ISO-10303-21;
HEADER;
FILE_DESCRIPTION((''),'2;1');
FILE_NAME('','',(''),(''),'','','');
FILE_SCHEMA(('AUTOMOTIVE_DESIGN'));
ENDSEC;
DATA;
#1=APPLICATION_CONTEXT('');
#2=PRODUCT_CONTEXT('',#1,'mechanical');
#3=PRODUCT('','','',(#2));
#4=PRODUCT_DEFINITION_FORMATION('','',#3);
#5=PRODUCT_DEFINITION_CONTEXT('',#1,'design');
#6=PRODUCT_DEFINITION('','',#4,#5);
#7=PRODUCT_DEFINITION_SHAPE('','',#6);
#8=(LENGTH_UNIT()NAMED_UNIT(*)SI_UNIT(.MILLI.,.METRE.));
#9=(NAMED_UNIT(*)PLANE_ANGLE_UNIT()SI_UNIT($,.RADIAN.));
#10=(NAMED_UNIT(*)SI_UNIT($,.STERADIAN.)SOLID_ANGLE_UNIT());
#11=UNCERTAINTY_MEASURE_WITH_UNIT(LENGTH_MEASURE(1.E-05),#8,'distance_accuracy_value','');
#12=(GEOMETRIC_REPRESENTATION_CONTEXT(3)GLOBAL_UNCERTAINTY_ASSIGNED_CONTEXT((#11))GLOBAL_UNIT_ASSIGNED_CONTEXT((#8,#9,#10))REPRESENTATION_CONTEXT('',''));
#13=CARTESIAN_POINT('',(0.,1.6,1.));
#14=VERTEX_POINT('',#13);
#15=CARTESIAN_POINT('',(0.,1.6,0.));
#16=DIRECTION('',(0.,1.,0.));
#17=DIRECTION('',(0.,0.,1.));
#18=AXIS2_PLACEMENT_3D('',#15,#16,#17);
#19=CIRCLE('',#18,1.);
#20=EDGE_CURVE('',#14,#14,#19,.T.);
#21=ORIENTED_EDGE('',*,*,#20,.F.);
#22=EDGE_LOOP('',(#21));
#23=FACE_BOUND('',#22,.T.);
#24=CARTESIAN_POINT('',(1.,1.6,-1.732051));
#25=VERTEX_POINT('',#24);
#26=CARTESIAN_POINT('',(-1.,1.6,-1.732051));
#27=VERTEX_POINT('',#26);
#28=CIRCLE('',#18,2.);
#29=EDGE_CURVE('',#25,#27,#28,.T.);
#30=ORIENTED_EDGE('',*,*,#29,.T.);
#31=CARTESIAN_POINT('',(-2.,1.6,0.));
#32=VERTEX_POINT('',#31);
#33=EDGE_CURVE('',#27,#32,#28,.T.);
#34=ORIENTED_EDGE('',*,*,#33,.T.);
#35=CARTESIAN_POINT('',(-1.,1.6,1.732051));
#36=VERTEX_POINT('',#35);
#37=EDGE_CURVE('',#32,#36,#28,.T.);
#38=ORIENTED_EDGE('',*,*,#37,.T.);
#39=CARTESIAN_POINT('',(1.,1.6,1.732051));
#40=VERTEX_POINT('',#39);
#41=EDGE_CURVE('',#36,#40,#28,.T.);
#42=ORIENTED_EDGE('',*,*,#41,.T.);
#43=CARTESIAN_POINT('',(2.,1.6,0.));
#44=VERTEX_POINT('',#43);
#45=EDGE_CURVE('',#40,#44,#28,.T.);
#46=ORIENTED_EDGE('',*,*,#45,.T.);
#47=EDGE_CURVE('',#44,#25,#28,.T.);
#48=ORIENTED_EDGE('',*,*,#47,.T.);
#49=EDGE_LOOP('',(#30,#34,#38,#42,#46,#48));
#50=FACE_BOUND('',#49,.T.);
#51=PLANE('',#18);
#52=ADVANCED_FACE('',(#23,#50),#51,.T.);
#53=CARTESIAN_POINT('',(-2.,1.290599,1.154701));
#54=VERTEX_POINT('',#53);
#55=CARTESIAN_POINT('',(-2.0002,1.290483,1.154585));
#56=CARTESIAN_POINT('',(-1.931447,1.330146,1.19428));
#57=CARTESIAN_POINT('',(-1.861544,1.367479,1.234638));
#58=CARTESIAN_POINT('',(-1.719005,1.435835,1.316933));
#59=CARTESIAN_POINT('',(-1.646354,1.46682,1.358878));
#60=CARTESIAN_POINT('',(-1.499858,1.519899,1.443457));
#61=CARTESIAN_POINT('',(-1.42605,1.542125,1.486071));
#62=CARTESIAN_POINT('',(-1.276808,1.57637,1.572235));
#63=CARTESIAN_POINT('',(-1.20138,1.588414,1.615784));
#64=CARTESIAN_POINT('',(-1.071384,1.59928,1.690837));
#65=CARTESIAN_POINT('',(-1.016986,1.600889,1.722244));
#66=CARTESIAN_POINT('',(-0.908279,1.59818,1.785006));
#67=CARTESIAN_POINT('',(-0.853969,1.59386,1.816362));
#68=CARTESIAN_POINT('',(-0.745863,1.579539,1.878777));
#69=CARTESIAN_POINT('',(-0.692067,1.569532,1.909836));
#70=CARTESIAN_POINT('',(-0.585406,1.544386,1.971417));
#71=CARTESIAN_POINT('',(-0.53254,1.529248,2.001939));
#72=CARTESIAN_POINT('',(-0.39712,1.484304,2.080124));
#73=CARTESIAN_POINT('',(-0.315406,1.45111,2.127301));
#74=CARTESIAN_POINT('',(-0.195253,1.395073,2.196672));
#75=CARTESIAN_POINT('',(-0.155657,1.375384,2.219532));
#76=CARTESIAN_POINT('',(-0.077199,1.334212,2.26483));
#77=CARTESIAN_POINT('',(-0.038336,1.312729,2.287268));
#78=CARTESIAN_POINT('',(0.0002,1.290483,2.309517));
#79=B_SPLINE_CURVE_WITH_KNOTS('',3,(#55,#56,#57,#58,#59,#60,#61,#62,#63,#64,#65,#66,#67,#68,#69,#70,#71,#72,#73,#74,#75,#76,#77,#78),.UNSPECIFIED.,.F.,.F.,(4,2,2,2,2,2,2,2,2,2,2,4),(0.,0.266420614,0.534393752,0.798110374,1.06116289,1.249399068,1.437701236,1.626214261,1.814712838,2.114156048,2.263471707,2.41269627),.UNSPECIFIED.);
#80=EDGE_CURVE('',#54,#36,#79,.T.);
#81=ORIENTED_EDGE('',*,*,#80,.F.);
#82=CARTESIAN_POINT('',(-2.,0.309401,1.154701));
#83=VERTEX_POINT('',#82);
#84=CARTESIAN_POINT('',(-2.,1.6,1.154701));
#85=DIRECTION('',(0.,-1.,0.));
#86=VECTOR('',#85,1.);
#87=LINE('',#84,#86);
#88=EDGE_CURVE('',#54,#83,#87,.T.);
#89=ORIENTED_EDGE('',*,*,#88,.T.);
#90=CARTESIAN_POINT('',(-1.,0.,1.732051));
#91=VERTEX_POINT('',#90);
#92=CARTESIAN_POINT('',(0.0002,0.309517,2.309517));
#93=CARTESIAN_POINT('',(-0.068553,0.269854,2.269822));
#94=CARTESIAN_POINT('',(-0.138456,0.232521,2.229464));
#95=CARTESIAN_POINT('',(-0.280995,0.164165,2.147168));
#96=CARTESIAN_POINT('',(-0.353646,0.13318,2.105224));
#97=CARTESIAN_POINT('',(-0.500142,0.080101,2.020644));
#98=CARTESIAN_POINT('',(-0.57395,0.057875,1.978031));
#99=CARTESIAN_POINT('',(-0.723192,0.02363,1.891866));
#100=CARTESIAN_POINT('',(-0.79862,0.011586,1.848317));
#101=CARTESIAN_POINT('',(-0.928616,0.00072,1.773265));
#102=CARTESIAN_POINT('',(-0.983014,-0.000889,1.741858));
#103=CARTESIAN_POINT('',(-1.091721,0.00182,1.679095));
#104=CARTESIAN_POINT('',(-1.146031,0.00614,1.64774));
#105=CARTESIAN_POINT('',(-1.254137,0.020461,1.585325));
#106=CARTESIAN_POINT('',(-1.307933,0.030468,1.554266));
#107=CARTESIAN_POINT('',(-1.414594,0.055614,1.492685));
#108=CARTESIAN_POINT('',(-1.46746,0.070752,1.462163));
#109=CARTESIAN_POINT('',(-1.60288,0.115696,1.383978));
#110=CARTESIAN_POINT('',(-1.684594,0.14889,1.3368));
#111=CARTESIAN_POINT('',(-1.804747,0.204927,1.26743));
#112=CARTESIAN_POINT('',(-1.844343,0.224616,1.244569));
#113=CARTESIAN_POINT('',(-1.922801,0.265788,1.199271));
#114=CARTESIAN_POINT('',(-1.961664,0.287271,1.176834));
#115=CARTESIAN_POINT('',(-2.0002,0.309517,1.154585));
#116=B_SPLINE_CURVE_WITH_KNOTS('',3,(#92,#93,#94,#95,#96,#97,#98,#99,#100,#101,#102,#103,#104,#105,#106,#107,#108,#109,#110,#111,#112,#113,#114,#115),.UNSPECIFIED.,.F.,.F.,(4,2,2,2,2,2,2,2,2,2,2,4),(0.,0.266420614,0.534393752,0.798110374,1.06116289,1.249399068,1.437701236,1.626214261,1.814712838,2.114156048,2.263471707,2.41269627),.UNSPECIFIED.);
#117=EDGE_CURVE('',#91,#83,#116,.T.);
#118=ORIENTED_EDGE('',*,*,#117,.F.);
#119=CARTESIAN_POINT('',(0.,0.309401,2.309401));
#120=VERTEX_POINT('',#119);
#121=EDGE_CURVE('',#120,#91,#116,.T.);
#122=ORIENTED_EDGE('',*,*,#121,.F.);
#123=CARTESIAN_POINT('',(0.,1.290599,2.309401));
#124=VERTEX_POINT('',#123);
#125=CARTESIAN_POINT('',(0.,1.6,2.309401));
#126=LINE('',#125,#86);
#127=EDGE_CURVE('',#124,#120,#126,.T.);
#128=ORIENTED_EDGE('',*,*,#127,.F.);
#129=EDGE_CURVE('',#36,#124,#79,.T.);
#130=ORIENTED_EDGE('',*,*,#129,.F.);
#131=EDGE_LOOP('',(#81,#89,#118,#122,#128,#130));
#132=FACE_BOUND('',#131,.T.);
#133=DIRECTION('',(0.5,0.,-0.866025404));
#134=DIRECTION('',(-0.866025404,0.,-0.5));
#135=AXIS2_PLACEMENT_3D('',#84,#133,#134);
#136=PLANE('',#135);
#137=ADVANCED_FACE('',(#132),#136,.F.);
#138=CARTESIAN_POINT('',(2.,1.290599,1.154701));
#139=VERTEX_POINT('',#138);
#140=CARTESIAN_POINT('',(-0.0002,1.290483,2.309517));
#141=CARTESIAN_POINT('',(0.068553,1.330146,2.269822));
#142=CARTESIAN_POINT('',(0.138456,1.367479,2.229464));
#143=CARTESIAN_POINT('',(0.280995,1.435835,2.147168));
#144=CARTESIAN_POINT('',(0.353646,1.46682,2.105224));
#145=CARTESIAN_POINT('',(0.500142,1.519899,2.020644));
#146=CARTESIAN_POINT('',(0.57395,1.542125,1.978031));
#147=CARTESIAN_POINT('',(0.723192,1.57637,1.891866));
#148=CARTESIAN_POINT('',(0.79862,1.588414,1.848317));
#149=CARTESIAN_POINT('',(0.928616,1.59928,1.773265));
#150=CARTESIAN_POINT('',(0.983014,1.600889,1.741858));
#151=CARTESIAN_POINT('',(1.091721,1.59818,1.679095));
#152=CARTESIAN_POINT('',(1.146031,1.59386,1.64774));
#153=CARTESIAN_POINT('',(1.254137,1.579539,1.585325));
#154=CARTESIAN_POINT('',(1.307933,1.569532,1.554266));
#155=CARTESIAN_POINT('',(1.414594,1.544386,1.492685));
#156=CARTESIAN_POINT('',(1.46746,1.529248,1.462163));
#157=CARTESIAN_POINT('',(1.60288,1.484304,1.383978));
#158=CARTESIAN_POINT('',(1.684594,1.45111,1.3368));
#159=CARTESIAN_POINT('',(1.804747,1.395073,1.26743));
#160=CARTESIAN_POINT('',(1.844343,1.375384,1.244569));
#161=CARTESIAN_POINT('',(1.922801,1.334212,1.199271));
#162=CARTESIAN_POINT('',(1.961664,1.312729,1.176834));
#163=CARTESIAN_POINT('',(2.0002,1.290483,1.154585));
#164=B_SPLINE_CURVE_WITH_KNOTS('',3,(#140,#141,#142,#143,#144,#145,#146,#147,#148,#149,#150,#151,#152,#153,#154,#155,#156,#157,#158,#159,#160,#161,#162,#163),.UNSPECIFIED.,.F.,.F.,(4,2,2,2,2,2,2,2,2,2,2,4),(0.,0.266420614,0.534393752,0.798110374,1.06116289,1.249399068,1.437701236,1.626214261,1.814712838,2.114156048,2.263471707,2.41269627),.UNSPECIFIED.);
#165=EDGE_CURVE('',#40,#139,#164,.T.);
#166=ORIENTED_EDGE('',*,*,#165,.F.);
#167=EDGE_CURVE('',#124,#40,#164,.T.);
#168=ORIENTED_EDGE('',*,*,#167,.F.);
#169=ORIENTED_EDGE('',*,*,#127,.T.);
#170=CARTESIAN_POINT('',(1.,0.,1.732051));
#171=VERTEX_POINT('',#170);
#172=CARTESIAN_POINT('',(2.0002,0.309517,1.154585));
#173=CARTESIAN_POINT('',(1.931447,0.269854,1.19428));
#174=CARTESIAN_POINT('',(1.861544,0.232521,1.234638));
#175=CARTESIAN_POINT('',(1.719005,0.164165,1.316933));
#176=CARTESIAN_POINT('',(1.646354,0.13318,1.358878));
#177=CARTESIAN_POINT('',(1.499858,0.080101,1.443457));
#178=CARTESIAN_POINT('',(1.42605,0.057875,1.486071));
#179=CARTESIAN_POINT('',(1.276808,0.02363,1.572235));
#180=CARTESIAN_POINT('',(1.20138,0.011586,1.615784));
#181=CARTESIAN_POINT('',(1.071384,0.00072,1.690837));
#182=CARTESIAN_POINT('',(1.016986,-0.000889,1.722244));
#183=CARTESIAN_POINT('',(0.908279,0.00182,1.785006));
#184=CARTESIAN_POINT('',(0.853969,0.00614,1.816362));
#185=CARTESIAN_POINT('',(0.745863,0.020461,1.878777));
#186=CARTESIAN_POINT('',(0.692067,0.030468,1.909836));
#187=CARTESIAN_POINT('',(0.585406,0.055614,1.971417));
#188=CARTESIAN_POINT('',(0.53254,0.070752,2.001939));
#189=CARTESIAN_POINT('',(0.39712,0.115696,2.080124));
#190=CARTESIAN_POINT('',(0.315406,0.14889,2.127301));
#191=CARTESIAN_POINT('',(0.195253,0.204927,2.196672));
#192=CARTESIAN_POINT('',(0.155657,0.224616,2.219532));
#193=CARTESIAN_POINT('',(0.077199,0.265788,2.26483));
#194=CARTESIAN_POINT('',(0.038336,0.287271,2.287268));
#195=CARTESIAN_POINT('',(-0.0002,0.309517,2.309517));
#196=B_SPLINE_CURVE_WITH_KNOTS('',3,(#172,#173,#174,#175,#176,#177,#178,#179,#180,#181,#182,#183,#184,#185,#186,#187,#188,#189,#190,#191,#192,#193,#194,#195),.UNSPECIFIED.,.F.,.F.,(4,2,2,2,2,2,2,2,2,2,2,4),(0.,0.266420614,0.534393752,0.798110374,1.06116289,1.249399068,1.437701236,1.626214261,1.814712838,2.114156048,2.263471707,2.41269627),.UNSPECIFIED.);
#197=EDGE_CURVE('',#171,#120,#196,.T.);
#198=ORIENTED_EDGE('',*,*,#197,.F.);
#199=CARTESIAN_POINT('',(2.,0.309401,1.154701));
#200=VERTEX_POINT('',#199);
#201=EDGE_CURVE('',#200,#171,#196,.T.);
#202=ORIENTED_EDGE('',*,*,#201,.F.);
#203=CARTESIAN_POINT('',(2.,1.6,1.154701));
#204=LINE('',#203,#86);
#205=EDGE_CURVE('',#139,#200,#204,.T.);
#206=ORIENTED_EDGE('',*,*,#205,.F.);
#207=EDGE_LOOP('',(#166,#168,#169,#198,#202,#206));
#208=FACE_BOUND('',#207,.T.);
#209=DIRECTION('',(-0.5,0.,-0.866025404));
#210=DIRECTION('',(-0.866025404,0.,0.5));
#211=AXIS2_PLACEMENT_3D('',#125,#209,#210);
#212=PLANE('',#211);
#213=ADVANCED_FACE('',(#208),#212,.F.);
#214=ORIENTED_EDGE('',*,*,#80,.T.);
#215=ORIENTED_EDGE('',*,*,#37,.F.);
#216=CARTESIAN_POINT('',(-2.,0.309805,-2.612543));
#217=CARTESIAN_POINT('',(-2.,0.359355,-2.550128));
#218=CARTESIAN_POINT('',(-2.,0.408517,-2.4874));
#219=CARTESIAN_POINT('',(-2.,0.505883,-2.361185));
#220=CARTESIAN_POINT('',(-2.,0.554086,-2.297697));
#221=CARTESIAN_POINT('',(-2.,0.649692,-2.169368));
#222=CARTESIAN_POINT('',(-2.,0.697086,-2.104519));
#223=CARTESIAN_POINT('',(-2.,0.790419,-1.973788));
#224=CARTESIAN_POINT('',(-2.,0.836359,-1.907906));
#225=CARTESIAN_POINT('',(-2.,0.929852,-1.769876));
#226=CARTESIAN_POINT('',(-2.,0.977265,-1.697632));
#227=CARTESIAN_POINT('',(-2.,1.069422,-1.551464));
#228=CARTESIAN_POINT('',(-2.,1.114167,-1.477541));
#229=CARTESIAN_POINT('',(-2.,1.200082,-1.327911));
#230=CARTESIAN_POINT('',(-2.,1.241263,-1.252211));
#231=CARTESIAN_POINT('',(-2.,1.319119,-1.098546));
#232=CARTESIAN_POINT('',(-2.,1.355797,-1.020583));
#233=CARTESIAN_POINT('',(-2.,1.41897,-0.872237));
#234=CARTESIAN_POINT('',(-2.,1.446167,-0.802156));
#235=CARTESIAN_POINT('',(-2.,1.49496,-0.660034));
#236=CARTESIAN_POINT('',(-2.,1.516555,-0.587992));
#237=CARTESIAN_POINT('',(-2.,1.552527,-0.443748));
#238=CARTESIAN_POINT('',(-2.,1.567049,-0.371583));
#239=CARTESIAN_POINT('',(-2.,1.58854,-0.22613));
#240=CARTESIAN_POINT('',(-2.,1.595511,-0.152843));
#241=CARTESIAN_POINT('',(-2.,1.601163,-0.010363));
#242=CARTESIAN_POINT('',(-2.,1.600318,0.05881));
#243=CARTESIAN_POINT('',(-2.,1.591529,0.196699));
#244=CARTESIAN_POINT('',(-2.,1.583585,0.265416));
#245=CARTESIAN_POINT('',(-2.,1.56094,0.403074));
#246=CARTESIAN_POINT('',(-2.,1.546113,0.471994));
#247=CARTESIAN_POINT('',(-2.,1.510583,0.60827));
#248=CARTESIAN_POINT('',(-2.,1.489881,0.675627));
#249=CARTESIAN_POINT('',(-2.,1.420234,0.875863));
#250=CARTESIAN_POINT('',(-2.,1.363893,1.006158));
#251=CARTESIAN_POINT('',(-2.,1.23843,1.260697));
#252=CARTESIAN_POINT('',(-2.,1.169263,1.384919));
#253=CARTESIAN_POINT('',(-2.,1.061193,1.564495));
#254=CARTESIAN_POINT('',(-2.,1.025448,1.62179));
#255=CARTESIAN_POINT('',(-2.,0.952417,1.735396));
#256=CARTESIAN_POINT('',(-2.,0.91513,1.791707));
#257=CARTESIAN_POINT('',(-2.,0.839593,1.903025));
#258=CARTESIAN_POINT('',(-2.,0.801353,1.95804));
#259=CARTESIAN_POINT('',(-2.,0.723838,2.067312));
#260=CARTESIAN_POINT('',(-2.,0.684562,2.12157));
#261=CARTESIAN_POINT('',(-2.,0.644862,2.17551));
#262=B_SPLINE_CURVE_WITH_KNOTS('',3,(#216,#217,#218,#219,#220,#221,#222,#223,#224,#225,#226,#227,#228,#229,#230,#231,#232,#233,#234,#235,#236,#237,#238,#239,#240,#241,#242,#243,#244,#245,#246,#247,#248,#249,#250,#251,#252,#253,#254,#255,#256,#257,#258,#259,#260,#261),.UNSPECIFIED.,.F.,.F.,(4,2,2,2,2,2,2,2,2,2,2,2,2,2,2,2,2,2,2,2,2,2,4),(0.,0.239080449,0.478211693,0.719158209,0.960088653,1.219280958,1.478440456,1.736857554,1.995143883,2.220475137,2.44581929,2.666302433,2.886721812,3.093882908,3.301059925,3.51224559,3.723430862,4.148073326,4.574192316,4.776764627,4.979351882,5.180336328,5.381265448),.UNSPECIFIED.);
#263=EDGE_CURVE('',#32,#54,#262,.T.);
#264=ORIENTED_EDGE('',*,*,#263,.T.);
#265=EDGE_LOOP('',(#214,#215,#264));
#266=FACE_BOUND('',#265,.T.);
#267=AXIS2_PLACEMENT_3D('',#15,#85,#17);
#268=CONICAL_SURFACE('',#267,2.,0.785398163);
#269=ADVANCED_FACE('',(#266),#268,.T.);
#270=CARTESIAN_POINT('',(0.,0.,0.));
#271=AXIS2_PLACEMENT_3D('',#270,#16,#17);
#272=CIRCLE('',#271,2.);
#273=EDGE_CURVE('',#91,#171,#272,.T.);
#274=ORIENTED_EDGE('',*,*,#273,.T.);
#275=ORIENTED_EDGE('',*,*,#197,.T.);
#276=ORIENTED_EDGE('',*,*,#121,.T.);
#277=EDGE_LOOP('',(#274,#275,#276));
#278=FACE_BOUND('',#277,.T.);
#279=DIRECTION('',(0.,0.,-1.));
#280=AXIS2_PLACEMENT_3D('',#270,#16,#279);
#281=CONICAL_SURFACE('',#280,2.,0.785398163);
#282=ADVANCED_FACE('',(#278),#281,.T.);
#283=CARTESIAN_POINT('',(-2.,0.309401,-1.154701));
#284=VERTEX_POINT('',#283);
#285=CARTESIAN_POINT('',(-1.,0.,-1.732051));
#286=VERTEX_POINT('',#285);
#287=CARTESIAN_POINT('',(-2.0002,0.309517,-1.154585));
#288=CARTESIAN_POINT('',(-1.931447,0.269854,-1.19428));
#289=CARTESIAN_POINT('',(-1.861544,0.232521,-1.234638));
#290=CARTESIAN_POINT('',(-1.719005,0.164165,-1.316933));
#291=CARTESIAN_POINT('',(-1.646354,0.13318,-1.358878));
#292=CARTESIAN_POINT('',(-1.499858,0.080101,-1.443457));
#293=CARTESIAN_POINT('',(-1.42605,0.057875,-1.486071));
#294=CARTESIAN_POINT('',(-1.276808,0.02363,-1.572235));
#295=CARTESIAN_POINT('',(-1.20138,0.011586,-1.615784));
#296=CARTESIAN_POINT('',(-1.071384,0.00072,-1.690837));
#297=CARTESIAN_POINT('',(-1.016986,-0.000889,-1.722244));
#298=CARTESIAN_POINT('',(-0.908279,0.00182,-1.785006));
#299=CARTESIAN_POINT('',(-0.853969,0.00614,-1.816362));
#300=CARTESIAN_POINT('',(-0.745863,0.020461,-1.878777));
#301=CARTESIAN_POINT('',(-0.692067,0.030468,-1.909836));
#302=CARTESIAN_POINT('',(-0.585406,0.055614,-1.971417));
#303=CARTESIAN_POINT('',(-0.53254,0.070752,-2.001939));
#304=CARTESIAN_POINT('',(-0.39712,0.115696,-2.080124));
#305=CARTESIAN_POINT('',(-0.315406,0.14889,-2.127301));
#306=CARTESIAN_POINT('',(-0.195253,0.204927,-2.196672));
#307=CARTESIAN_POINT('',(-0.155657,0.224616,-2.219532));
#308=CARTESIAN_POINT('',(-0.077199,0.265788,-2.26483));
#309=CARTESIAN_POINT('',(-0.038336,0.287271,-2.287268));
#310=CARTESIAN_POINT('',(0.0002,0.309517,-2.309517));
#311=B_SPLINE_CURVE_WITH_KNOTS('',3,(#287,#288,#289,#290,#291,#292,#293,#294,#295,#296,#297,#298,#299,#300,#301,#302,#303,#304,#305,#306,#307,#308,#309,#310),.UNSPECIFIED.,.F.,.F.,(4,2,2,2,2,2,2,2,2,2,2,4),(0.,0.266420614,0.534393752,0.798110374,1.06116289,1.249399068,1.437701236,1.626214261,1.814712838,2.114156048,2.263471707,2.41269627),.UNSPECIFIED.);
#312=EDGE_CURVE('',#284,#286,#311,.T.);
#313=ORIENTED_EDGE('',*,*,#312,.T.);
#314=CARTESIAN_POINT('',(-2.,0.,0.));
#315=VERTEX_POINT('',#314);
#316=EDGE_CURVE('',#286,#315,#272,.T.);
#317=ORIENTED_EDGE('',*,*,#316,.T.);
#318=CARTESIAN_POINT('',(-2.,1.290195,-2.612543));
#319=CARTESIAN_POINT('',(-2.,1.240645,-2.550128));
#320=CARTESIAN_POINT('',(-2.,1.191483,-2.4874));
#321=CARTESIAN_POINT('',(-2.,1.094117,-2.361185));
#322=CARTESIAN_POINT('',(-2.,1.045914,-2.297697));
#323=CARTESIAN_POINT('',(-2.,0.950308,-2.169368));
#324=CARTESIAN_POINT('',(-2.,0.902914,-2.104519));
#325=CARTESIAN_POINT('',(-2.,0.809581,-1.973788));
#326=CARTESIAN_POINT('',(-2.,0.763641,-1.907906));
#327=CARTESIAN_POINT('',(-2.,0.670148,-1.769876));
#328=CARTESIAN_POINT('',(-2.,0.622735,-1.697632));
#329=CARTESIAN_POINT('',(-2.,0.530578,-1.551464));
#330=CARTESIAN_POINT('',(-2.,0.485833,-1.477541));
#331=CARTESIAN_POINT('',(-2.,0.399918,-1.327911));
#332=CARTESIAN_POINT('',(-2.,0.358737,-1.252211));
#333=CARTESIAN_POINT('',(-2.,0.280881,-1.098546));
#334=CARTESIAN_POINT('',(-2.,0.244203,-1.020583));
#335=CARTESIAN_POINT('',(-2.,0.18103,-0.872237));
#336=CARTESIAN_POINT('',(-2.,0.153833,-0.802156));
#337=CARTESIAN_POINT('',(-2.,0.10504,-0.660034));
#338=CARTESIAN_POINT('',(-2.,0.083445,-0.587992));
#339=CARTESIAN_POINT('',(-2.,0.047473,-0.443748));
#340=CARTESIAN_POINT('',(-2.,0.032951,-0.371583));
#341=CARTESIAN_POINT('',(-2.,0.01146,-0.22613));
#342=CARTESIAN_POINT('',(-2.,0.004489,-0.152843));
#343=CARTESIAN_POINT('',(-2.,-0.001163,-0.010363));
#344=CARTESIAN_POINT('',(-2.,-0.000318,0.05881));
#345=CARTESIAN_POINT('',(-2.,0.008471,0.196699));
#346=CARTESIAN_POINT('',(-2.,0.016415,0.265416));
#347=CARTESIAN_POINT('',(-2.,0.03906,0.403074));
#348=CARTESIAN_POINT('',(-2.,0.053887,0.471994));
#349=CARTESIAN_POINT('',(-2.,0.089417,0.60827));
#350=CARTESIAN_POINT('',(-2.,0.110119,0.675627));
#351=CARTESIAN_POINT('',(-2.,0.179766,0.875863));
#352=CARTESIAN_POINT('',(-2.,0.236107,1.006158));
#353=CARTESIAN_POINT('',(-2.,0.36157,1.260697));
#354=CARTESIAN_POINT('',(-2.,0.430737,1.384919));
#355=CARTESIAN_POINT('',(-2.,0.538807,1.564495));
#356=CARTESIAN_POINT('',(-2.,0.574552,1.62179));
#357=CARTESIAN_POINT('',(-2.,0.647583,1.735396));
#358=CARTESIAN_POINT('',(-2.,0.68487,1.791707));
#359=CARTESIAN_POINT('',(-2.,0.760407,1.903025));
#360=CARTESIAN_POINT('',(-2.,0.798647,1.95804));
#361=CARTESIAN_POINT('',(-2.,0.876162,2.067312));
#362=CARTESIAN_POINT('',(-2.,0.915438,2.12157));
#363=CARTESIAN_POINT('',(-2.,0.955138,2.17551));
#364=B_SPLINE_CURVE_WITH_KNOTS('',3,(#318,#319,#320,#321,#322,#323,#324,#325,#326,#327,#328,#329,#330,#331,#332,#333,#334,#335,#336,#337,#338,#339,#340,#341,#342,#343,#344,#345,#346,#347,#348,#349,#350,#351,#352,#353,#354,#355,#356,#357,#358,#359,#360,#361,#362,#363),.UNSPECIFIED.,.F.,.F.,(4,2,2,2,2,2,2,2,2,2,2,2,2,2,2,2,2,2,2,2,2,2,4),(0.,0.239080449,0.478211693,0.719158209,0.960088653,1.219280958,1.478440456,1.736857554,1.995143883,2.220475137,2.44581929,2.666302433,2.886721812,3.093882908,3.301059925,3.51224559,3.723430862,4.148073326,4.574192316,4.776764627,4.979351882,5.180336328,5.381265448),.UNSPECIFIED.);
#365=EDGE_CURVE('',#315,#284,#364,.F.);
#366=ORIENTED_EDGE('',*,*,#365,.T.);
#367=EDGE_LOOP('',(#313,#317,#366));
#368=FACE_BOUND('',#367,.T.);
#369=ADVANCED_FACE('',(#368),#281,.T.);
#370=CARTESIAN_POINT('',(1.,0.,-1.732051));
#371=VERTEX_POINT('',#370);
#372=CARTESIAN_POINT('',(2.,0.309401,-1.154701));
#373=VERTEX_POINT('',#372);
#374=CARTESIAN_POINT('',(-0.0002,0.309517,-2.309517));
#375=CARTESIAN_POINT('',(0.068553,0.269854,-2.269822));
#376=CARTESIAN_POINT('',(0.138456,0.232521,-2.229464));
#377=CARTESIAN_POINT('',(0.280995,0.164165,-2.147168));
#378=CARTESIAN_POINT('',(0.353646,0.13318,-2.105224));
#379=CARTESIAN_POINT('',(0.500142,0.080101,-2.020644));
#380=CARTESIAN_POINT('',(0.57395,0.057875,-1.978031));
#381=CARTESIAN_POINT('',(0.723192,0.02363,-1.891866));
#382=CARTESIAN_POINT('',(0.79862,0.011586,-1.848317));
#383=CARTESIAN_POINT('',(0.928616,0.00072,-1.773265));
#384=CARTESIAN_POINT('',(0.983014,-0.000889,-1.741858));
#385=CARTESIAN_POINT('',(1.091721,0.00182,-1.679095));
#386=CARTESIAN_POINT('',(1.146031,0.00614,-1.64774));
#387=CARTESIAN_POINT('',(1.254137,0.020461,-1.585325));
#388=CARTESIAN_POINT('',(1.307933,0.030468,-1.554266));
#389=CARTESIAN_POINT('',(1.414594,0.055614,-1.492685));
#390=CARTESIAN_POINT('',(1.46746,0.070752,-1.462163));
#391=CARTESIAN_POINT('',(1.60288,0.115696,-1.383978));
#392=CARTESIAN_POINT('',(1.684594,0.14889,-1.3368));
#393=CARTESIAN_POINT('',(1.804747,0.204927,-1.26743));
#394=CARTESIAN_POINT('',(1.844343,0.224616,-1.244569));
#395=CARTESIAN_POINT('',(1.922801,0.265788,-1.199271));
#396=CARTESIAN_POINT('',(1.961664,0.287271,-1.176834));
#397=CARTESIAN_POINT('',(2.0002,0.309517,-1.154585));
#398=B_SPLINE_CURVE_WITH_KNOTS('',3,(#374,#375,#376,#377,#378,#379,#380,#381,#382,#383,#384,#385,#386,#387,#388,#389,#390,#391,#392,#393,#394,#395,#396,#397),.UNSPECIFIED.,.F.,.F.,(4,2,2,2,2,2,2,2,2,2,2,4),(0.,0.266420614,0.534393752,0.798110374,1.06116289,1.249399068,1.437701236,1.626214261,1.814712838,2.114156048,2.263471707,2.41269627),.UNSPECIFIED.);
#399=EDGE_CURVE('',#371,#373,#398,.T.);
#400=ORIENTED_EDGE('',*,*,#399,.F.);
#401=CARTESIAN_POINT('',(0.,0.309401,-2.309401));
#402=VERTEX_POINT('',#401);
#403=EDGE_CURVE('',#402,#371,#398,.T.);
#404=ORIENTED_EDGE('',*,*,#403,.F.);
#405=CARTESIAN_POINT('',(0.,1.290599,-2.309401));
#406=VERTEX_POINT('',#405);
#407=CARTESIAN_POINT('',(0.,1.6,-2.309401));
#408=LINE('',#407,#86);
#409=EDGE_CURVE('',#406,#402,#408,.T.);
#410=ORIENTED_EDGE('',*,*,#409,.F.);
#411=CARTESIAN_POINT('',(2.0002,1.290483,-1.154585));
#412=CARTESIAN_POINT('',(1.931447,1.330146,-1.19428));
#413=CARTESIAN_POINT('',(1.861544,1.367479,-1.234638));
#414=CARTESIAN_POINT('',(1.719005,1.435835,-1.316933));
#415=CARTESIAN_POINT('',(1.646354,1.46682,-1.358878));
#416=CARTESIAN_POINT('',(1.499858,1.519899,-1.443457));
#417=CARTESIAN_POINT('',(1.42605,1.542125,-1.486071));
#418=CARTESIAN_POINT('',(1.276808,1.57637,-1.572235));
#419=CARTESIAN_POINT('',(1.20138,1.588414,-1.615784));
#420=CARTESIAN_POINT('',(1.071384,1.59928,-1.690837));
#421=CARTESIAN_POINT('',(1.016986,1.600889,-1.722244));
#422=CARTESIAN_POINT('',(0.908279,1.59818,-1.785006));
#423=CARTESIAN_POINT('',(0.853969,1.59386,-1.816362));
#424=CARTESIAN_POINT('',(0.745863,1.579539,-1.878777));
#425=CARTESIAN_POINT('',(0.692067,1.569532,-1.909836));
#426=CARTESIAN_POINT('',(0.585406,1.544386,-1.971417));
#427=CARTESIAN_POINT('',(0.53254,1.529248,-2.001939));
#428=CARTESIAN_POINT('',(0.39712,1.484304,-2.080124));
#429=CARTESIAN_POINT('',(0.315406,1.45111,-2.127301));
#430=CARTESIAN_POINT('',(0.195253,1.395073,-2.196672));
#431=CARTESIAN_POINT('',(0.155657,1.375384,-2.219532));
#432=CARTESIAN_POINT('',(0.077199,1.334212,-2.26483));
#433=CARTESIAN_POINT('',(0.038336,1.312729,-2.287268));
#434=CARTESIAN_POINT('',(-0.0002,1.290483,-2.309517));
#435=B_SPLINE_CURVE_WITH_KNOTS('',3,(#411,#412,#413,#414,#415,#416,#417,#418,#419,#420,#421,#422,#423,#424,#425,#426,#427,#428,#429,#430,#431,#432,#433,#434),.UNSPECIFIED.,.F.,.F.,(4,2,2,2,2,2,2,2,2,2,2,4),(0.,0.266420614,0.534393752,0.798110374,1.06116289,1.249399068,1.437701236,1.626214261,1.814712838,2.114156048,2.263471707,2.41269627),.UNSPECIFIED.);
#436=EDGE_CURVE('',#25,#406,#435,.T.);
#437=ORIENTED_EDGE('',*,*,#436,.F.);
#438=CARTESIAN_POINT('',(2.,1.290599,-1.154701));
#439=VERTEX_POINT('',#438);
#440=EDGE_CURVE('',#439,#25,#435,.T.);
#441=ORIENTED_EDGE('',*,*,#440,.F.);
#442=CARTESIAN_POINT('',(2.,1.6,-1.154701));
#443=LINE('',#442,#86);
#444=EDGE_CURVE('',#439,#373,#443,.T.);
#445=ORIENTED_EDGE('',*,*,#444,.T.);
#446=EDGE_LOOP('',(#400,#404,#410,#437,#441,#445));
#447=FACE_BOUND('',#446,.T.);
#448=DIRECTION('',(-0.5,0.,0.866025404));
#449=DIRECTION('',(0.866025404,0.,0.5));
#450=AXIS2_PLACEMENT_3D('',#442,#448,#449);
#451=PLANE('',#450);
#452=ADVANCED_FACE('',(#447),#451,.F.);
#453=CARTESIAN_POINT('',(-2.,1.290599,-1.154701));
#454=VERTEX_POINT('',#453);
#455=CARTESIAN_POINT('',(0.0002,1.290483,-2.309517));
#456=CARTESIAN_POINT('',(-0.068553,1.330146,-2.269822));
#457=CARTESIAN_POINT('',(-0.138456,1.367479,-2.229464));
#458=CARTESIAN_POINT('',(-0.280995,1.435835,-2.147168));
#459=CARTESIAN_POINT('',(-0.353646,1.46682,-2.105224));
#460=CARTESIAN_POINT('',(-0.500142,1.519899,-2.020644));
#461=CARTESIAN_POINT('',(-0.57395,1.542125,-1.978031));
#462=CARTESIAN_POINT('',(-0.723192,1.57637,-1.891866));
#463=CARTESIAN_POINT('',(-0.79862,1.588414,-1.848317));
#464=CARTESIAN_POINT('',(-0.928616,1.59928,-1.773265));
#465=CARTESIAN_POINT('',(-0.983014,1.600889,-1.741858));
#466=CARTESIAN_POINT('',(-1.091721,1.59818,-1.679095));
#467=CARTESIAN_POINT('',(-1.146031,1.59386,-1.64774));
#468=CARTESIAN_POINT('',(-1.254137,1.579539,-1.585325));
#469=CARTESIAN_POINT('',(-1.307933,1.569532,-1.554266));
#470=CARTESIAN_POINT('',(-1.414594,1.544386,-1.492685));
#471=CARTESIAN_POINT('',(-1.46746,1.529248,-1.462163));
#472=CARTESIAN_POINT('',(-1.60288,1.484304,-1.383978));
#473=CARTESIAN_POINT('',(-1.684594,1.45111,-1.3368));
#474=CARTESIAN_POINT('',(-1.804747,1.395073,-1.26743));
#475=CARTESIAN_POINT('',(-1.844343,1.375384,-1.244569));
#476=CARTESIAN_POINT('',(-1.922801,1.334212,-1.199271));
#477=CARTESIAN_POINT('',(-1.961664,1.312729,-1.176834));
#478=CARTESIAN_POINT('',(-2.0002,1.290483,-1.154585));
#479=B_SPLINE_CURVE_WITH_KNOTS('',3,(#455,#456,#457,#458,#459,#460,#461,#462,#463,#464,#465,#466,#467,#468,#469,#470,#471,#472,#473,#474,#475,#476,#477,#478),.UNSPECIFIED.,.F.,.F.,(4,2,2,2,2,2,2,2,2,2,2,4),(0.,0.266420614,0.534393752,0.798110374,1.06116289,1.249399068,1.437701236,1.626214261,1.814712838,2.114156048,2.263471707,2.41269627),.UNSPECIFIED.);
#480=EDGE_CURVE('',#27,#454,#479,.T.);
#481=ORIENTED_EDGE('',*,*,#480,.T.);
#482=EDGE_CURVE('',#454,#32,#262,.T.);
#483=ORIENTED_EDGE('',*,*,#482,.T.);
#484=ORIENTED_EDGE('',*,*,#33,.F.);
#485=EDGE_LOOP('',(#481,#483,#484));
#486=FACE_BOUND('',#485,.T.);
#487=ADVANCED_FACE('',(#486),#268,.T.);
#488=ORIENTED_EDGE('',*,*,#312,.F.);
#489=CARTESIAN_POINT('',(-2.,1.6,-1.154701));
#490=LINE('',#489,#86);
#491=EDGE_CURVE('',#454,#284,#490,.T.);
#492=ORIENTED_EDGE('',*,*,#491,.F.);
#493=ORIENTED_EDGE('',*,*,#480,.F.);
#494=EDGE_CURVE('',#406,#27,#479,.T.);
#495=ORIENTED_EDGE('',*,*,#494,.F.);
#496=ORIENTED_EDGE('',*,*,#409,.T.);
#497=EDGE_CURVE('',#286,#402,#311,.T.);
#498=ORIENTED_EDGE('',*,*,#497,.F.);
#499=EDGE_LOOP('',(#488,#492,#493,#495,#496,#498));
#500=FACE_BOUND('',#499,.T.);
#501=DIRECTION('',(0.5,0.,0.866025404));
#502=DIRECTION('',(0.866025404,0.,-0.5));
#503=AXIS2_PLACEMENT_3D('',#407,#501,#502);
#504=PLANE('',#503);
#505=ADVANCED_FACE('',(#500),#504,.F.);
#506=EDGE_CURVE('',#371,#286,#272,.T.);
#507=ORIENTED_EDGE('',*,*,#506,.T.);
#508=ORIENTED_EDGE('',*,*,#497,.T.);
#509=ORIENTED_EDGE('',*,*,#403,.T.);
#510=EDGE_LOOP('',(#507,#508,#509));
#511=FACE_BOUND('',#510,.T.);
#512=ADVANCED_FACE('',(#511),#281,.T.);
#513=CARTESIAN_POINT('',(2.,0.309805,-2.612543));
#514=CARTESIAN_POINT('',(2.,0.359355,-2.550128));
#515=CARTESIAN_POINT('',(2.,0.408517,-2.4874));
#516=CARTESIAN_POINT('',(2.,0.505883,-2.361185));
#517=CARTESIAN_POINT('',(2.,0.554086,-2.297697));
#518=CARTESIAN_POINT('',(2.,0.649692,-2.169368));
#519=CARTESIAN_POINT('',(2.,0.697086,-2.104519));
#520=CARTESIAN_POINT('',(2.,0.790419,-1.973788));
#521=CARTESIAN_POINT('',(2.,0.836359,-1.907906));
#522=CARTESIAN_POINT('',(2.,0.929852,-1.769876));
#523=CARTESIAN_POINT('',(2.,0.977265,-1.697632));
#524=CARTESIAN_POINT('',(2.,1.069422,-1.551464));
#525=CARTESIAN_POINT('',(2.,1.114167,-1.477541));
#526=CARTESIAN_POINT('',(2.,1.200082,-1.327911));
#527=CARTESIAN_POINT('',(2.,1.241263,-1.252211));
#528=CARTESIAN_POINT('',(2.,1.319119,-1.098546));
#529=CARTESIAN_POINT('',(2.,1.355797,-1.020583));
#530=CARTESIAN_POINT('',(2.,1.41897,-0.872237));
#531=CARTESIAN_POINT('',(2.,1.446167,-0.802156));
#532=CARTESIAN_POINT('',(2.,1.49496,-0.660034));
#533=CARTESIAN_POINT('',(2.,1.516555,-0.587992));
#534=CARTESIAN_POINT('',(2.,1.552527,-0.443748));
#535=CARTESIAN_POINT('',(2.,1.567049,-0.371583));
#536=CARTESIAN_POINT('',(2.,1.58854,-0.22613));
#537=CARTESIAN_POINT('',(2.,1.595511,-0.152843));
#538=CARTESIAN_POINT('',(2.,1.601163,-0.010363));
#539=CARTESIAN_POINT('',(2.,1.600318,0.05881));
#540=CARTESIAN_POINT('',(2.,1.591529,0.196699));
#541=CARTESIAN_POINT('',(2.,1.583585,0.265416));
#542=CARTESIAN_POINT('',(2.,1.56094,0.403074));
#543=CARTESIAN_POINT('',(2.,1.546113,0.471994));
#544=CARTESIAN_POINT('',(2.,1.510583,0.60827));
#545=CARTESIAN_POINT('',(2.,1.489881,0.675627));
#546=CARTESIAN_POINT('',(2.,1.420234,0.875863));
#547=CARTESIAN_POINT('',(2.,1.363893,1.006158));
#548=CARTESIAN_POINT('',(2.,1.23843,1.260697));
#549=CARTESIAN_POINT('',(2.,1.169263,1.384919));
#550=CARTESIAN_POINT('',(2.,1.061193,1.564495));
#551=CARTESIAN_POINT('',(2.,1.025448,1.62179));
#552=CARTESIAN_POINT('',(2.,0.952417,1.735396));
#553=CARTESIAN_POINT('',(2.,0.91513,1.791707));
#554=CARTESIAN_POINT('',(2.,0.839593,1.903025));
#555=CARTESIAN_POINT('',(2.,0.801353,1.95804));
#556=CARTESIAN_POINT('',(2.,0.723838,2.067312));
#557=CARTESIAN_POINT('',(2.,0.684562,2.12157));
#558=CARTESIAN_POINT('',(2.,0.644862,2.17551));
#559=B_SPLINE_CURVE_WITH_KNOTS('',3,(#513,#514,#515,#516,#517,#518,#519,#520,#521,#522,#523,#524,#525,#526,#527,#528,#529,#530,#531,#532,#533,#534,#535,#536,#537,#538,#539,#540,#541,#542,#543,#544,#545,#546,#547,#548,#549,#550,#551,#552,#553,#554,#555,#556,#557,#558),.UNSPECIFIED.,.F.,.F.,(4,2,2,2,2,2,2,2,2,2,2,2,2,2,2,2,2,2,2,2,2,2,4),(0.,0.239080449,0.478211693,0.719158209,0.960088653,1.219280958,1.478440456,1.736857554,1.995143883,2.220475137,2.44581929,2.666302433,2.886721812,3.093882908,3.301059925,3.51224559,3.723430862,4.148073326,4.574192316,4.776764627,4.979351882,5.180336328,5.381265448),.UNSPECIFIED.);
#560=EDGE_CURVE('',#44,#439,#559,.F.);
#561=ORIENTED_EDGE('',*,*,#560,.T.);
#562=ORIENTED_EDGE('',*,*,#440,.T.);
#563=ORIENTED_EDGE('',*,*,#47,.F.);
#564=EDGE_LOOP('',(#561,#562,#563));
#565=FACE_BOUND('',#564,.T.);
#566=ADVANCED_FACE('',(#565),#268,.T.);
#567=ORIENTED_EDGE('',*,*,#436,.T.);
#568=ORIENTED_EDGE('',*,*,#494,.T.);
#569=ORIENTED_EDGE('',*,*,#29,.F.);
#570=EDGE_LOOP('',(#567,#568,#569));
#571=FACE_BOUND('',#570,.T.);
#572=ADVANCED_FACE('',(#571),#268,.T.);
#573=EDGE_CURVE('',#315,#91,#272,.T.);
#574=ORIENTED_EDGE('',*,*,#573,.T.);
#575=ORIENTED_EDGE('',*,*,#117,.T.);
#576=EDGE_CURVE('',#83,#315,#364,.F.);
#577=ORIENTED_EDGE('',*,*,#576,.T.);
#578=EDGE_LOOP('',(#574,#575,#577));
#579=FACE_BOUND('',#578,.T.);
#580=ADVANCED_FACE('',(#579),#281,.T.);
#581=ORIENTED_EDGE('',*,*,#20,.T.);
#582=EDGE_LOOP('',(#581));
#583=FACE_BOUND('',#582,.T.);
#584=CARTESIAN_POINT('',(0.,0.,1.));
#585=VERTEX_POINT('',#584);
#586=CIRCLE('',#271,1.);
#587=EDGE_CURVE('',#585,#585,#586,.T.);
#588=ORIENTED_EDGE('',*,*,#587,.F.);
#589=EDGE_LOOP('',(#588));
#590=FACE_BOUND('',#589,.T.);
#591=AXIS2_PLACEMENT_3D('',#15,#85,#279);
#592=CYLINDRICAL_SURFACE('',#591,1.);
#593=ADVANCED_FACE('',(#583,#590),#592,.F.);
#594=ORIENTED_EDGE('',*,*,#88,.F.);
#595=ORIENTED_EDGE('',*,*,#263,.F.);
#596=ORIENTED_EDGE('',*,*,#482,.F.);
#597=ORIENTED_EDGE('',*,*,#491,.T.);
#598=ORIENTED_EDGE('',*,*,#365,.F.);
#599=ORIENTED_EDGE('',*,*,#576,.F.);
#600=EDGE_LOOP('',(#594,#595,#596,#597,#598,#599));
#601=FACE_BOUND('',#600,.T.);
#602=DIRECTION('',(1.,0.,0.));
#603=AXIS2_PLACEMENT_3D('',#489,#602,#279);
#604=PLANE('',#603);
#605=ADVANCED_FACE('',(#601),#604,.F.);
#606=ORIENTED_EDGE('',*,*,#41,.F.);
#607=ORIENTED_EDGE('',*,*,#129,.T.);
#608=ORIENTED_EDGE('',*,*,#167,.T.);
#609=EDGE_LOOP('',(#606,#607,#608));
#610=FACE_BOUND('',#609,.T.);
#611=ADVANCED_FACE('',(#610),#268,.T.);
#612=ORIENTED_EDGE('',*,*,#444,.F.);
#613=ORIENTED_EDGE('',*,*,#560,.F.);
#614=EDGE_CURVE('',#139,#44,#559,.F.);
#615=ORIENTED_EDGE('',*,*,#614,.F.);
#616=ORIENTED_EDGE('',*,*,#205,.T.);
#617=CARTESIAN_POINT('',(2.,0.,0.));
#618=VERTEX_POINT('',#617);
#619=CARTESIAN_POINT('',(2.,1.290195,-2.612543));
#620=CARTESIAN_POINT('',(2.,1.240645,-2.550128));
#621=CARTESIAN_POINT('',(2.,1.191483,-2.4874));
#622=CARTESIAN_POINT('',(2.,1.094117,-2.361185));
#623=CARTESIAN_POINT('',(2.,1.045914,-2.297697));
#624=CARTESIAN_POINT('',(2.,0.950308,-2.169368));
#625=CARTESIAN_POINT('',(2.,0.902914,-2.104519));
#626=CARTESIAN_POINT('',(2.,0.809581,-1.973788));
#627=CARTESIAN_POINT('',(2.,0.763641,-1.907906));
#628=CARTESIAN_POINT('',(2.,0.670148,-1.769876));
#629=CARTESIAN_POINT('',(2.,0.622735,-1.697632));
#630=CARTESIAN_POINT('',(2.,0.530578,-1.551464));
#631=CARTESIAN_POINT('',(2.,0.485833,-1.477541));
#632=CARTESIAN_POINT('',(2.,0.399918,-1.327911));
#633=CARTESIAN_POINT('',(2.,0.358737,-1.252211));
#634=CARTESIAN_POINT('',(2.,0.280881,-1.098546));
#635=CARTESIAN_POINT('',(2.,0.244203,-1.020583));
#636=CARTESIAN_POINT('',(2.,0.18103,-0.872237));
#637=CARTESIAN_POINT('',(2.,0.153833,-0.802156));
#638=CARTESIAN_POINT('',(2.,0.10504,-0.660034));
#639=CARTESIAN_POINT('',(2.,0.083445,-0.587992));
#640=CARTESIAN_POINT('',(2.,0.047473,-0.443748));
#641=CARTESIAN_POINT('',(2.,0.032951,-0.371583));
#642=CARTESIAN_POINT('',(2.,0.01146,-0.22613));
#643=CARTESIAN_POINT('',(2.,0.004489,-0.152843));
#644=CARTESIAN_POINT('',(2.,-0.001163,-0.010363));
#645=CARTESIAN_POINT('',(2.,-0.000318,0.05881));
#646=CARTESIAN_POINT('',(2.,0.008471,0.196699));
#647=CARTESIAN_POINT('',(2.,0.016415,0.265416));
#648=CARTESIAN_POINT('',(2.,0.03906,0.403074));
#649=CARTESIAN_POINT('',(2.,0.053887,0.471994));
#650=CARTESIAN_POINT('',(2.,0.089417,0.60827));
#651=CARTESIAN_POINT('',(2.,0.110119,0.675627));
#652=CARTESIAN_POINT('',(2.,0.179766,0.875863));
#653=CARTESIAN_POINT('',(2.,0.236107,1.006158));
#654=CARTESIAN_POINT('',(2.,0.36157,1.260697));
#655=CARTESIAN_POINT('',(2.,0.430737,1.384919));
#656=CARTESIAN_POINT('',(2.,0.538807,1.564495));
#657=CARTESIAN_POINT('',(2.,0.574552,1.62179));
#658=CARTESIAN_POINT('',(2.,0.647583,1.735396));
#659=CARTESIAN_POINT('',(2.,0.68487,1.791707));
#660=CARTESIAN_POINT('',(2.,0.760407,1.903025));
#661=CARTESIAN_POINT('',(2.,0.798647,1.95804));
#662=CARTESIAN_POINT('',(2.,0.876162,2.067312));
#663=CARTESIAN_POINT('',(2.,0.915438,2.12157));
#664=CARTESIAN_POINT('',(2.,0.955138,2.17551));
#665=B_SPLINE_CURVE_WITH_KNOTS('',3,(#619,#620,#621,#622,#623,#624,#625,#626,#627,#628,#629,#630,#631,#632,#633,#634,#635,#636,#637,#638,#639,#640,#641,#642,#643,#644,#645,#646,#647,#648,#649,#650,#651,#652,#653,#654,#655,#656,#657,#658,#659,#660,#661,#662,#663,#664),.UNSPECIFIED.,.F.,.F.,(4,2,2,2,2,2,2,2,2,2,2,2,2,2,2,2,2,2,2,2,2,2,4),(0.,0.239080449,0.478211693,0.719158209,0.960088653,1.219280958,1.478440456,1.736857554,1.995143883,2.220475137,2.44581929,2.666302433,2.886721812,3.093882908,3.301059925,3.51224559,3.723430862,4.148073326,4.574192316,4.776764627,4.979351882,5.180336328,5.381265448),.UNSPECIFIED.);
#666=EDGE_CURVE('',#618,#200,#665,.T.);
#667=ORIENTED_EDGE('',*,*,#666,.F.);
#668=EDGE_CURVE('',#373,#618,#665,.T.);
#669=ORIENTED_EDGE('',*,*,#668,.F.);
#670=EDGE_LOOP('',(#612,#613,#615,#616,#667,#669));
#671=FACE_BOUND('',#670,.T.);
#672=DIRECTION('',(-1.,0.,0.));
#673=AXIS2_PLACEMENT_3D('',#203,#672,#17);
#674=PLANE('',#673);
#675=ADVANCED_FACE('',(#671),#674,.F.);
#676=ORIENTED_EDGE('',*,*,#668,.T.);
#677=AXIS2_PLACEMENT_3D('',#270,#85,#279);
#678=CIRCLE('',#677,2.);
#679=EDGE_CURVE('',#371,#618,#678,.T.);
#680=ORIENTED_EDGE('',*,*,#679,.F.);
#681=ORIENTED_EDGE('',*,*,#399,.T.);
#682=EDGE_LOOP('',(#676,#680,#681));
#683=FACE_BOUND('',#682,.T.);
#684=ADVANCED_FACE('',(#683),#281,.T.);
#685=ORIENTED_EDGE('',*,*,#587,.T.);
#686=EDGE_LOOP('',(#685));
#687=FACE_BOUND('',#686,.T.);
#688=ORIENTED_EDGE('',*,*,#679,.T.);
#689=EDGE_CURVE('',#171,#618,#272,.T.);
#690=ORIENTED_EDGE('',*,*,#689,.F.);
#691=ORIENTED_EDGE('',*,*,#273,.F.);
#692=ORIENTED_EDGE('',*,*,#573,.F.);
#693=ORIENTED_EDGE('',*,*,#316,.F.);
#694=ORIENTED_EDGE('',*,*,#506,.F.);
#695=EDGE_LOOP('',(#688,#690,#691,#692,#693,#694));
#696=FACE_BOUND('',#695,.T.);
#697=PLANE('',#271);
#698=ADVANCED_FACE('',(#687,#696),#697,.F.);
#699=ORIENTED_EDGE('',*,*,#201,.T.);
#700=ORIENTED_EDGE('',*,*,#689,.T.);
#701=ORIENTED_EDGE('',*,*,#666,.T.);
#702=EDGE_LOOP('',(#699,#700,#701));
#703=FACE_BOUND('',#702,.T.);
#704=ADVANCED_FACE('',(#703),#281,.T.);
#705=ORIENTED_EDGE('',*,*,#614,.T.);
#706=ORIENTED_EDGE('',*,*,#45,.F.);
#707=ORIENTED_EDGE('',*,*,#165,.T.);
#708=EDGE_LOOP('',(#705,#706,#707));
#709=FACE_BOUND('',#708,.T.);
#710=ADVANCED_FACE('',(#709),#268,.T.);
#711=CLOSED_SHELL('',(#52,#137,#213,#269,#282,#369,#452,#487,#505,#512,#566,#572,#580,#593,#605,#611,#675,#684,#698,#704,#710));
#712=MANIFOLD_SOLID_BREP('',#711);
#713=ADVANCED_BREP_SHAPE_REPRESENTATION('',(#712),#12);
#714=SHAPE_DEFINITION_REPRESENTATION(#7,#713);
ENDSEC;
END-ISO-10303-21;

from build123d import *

# Parameters (mm, degrees)
SKETCH1_R           = 1
BOSS_EXTRUDE1_DEPTH = 1.6
SKETCH2_OUTSIDE_W   = 12.464
SKETCH2_OUTSIDE_H   = 13.082
SKETCH2_OUTSIDE_R   = 2
CUT_EXTRUDE1_DEPTH  = 2.6
CUT_EXTRUDE1_TAPER  = 45
SKETCH3_OUTSIDE_W   = 12.464
SKETCH3_OUTSIDE_H   = 13.082
SKETCH3_OUTSIDE_R   = 2
CUT_EXTRUDE2_DEPTH  = 2.6
CUT_EXTRUDE2_TAPER  = 45


with BuildPart() as part:
    # Sketch1 → Boss-Extrude1 (new body)
    with BuildSketch(Plane(origin=(0, 0, 0), x_dir=(1, 0, 0), z_dir=(0, 1, 0))):
        Polygon((0, 2.309401077), (-2, 1.154700538), (-2, -1.154700538), (0, -2.309401077), (2, -1.154700538), (2, 1.154700538), align=None)
        Circle(SKETCH1_R, mode=Mode.SUBTRACT)
    extrude(amount=BOSS_EXTRUDE1_DEPTH)

    # Sketch2 outside → Cut-Extrude1 (cut, through all)
    with BuildSketch(Plane(origin=(0, 1.6, 0), x_dir=(1, 0, 0), z_dir=(0, 1, 0))):
        Rectangle(SKETCH2_OUTSIDE_W, SKETCH2_OUTSIDE_H)
        Circle(SKETCH2_OUTSIDE_R, mode=Mode.SUBTRACT)
    extrude(amount=-CUT_EXTRUDE1_DEPTH, taper=CUT_EXTRUDE1_TAPER, mode=Mode.SUBTRACT)

    # Sketch3 outside → Cut-Extrude2 (cut, through all)
    with BuildSketch(Plane.XZ):
        Rectangle(SKETCH3_OUTSIDE_W, SKETCH3_OUTSIDE_H)
        Circle(SKETCH3_OUTSIDE_R, mode=Mode.SUBTRACT)
    extrude(amount=-CUT_EXTRUDE2_DEPTH, taper=CUT_EXTRUDE2_TAPER, mode=Mode.SUBTRACT)


solid = part.part
